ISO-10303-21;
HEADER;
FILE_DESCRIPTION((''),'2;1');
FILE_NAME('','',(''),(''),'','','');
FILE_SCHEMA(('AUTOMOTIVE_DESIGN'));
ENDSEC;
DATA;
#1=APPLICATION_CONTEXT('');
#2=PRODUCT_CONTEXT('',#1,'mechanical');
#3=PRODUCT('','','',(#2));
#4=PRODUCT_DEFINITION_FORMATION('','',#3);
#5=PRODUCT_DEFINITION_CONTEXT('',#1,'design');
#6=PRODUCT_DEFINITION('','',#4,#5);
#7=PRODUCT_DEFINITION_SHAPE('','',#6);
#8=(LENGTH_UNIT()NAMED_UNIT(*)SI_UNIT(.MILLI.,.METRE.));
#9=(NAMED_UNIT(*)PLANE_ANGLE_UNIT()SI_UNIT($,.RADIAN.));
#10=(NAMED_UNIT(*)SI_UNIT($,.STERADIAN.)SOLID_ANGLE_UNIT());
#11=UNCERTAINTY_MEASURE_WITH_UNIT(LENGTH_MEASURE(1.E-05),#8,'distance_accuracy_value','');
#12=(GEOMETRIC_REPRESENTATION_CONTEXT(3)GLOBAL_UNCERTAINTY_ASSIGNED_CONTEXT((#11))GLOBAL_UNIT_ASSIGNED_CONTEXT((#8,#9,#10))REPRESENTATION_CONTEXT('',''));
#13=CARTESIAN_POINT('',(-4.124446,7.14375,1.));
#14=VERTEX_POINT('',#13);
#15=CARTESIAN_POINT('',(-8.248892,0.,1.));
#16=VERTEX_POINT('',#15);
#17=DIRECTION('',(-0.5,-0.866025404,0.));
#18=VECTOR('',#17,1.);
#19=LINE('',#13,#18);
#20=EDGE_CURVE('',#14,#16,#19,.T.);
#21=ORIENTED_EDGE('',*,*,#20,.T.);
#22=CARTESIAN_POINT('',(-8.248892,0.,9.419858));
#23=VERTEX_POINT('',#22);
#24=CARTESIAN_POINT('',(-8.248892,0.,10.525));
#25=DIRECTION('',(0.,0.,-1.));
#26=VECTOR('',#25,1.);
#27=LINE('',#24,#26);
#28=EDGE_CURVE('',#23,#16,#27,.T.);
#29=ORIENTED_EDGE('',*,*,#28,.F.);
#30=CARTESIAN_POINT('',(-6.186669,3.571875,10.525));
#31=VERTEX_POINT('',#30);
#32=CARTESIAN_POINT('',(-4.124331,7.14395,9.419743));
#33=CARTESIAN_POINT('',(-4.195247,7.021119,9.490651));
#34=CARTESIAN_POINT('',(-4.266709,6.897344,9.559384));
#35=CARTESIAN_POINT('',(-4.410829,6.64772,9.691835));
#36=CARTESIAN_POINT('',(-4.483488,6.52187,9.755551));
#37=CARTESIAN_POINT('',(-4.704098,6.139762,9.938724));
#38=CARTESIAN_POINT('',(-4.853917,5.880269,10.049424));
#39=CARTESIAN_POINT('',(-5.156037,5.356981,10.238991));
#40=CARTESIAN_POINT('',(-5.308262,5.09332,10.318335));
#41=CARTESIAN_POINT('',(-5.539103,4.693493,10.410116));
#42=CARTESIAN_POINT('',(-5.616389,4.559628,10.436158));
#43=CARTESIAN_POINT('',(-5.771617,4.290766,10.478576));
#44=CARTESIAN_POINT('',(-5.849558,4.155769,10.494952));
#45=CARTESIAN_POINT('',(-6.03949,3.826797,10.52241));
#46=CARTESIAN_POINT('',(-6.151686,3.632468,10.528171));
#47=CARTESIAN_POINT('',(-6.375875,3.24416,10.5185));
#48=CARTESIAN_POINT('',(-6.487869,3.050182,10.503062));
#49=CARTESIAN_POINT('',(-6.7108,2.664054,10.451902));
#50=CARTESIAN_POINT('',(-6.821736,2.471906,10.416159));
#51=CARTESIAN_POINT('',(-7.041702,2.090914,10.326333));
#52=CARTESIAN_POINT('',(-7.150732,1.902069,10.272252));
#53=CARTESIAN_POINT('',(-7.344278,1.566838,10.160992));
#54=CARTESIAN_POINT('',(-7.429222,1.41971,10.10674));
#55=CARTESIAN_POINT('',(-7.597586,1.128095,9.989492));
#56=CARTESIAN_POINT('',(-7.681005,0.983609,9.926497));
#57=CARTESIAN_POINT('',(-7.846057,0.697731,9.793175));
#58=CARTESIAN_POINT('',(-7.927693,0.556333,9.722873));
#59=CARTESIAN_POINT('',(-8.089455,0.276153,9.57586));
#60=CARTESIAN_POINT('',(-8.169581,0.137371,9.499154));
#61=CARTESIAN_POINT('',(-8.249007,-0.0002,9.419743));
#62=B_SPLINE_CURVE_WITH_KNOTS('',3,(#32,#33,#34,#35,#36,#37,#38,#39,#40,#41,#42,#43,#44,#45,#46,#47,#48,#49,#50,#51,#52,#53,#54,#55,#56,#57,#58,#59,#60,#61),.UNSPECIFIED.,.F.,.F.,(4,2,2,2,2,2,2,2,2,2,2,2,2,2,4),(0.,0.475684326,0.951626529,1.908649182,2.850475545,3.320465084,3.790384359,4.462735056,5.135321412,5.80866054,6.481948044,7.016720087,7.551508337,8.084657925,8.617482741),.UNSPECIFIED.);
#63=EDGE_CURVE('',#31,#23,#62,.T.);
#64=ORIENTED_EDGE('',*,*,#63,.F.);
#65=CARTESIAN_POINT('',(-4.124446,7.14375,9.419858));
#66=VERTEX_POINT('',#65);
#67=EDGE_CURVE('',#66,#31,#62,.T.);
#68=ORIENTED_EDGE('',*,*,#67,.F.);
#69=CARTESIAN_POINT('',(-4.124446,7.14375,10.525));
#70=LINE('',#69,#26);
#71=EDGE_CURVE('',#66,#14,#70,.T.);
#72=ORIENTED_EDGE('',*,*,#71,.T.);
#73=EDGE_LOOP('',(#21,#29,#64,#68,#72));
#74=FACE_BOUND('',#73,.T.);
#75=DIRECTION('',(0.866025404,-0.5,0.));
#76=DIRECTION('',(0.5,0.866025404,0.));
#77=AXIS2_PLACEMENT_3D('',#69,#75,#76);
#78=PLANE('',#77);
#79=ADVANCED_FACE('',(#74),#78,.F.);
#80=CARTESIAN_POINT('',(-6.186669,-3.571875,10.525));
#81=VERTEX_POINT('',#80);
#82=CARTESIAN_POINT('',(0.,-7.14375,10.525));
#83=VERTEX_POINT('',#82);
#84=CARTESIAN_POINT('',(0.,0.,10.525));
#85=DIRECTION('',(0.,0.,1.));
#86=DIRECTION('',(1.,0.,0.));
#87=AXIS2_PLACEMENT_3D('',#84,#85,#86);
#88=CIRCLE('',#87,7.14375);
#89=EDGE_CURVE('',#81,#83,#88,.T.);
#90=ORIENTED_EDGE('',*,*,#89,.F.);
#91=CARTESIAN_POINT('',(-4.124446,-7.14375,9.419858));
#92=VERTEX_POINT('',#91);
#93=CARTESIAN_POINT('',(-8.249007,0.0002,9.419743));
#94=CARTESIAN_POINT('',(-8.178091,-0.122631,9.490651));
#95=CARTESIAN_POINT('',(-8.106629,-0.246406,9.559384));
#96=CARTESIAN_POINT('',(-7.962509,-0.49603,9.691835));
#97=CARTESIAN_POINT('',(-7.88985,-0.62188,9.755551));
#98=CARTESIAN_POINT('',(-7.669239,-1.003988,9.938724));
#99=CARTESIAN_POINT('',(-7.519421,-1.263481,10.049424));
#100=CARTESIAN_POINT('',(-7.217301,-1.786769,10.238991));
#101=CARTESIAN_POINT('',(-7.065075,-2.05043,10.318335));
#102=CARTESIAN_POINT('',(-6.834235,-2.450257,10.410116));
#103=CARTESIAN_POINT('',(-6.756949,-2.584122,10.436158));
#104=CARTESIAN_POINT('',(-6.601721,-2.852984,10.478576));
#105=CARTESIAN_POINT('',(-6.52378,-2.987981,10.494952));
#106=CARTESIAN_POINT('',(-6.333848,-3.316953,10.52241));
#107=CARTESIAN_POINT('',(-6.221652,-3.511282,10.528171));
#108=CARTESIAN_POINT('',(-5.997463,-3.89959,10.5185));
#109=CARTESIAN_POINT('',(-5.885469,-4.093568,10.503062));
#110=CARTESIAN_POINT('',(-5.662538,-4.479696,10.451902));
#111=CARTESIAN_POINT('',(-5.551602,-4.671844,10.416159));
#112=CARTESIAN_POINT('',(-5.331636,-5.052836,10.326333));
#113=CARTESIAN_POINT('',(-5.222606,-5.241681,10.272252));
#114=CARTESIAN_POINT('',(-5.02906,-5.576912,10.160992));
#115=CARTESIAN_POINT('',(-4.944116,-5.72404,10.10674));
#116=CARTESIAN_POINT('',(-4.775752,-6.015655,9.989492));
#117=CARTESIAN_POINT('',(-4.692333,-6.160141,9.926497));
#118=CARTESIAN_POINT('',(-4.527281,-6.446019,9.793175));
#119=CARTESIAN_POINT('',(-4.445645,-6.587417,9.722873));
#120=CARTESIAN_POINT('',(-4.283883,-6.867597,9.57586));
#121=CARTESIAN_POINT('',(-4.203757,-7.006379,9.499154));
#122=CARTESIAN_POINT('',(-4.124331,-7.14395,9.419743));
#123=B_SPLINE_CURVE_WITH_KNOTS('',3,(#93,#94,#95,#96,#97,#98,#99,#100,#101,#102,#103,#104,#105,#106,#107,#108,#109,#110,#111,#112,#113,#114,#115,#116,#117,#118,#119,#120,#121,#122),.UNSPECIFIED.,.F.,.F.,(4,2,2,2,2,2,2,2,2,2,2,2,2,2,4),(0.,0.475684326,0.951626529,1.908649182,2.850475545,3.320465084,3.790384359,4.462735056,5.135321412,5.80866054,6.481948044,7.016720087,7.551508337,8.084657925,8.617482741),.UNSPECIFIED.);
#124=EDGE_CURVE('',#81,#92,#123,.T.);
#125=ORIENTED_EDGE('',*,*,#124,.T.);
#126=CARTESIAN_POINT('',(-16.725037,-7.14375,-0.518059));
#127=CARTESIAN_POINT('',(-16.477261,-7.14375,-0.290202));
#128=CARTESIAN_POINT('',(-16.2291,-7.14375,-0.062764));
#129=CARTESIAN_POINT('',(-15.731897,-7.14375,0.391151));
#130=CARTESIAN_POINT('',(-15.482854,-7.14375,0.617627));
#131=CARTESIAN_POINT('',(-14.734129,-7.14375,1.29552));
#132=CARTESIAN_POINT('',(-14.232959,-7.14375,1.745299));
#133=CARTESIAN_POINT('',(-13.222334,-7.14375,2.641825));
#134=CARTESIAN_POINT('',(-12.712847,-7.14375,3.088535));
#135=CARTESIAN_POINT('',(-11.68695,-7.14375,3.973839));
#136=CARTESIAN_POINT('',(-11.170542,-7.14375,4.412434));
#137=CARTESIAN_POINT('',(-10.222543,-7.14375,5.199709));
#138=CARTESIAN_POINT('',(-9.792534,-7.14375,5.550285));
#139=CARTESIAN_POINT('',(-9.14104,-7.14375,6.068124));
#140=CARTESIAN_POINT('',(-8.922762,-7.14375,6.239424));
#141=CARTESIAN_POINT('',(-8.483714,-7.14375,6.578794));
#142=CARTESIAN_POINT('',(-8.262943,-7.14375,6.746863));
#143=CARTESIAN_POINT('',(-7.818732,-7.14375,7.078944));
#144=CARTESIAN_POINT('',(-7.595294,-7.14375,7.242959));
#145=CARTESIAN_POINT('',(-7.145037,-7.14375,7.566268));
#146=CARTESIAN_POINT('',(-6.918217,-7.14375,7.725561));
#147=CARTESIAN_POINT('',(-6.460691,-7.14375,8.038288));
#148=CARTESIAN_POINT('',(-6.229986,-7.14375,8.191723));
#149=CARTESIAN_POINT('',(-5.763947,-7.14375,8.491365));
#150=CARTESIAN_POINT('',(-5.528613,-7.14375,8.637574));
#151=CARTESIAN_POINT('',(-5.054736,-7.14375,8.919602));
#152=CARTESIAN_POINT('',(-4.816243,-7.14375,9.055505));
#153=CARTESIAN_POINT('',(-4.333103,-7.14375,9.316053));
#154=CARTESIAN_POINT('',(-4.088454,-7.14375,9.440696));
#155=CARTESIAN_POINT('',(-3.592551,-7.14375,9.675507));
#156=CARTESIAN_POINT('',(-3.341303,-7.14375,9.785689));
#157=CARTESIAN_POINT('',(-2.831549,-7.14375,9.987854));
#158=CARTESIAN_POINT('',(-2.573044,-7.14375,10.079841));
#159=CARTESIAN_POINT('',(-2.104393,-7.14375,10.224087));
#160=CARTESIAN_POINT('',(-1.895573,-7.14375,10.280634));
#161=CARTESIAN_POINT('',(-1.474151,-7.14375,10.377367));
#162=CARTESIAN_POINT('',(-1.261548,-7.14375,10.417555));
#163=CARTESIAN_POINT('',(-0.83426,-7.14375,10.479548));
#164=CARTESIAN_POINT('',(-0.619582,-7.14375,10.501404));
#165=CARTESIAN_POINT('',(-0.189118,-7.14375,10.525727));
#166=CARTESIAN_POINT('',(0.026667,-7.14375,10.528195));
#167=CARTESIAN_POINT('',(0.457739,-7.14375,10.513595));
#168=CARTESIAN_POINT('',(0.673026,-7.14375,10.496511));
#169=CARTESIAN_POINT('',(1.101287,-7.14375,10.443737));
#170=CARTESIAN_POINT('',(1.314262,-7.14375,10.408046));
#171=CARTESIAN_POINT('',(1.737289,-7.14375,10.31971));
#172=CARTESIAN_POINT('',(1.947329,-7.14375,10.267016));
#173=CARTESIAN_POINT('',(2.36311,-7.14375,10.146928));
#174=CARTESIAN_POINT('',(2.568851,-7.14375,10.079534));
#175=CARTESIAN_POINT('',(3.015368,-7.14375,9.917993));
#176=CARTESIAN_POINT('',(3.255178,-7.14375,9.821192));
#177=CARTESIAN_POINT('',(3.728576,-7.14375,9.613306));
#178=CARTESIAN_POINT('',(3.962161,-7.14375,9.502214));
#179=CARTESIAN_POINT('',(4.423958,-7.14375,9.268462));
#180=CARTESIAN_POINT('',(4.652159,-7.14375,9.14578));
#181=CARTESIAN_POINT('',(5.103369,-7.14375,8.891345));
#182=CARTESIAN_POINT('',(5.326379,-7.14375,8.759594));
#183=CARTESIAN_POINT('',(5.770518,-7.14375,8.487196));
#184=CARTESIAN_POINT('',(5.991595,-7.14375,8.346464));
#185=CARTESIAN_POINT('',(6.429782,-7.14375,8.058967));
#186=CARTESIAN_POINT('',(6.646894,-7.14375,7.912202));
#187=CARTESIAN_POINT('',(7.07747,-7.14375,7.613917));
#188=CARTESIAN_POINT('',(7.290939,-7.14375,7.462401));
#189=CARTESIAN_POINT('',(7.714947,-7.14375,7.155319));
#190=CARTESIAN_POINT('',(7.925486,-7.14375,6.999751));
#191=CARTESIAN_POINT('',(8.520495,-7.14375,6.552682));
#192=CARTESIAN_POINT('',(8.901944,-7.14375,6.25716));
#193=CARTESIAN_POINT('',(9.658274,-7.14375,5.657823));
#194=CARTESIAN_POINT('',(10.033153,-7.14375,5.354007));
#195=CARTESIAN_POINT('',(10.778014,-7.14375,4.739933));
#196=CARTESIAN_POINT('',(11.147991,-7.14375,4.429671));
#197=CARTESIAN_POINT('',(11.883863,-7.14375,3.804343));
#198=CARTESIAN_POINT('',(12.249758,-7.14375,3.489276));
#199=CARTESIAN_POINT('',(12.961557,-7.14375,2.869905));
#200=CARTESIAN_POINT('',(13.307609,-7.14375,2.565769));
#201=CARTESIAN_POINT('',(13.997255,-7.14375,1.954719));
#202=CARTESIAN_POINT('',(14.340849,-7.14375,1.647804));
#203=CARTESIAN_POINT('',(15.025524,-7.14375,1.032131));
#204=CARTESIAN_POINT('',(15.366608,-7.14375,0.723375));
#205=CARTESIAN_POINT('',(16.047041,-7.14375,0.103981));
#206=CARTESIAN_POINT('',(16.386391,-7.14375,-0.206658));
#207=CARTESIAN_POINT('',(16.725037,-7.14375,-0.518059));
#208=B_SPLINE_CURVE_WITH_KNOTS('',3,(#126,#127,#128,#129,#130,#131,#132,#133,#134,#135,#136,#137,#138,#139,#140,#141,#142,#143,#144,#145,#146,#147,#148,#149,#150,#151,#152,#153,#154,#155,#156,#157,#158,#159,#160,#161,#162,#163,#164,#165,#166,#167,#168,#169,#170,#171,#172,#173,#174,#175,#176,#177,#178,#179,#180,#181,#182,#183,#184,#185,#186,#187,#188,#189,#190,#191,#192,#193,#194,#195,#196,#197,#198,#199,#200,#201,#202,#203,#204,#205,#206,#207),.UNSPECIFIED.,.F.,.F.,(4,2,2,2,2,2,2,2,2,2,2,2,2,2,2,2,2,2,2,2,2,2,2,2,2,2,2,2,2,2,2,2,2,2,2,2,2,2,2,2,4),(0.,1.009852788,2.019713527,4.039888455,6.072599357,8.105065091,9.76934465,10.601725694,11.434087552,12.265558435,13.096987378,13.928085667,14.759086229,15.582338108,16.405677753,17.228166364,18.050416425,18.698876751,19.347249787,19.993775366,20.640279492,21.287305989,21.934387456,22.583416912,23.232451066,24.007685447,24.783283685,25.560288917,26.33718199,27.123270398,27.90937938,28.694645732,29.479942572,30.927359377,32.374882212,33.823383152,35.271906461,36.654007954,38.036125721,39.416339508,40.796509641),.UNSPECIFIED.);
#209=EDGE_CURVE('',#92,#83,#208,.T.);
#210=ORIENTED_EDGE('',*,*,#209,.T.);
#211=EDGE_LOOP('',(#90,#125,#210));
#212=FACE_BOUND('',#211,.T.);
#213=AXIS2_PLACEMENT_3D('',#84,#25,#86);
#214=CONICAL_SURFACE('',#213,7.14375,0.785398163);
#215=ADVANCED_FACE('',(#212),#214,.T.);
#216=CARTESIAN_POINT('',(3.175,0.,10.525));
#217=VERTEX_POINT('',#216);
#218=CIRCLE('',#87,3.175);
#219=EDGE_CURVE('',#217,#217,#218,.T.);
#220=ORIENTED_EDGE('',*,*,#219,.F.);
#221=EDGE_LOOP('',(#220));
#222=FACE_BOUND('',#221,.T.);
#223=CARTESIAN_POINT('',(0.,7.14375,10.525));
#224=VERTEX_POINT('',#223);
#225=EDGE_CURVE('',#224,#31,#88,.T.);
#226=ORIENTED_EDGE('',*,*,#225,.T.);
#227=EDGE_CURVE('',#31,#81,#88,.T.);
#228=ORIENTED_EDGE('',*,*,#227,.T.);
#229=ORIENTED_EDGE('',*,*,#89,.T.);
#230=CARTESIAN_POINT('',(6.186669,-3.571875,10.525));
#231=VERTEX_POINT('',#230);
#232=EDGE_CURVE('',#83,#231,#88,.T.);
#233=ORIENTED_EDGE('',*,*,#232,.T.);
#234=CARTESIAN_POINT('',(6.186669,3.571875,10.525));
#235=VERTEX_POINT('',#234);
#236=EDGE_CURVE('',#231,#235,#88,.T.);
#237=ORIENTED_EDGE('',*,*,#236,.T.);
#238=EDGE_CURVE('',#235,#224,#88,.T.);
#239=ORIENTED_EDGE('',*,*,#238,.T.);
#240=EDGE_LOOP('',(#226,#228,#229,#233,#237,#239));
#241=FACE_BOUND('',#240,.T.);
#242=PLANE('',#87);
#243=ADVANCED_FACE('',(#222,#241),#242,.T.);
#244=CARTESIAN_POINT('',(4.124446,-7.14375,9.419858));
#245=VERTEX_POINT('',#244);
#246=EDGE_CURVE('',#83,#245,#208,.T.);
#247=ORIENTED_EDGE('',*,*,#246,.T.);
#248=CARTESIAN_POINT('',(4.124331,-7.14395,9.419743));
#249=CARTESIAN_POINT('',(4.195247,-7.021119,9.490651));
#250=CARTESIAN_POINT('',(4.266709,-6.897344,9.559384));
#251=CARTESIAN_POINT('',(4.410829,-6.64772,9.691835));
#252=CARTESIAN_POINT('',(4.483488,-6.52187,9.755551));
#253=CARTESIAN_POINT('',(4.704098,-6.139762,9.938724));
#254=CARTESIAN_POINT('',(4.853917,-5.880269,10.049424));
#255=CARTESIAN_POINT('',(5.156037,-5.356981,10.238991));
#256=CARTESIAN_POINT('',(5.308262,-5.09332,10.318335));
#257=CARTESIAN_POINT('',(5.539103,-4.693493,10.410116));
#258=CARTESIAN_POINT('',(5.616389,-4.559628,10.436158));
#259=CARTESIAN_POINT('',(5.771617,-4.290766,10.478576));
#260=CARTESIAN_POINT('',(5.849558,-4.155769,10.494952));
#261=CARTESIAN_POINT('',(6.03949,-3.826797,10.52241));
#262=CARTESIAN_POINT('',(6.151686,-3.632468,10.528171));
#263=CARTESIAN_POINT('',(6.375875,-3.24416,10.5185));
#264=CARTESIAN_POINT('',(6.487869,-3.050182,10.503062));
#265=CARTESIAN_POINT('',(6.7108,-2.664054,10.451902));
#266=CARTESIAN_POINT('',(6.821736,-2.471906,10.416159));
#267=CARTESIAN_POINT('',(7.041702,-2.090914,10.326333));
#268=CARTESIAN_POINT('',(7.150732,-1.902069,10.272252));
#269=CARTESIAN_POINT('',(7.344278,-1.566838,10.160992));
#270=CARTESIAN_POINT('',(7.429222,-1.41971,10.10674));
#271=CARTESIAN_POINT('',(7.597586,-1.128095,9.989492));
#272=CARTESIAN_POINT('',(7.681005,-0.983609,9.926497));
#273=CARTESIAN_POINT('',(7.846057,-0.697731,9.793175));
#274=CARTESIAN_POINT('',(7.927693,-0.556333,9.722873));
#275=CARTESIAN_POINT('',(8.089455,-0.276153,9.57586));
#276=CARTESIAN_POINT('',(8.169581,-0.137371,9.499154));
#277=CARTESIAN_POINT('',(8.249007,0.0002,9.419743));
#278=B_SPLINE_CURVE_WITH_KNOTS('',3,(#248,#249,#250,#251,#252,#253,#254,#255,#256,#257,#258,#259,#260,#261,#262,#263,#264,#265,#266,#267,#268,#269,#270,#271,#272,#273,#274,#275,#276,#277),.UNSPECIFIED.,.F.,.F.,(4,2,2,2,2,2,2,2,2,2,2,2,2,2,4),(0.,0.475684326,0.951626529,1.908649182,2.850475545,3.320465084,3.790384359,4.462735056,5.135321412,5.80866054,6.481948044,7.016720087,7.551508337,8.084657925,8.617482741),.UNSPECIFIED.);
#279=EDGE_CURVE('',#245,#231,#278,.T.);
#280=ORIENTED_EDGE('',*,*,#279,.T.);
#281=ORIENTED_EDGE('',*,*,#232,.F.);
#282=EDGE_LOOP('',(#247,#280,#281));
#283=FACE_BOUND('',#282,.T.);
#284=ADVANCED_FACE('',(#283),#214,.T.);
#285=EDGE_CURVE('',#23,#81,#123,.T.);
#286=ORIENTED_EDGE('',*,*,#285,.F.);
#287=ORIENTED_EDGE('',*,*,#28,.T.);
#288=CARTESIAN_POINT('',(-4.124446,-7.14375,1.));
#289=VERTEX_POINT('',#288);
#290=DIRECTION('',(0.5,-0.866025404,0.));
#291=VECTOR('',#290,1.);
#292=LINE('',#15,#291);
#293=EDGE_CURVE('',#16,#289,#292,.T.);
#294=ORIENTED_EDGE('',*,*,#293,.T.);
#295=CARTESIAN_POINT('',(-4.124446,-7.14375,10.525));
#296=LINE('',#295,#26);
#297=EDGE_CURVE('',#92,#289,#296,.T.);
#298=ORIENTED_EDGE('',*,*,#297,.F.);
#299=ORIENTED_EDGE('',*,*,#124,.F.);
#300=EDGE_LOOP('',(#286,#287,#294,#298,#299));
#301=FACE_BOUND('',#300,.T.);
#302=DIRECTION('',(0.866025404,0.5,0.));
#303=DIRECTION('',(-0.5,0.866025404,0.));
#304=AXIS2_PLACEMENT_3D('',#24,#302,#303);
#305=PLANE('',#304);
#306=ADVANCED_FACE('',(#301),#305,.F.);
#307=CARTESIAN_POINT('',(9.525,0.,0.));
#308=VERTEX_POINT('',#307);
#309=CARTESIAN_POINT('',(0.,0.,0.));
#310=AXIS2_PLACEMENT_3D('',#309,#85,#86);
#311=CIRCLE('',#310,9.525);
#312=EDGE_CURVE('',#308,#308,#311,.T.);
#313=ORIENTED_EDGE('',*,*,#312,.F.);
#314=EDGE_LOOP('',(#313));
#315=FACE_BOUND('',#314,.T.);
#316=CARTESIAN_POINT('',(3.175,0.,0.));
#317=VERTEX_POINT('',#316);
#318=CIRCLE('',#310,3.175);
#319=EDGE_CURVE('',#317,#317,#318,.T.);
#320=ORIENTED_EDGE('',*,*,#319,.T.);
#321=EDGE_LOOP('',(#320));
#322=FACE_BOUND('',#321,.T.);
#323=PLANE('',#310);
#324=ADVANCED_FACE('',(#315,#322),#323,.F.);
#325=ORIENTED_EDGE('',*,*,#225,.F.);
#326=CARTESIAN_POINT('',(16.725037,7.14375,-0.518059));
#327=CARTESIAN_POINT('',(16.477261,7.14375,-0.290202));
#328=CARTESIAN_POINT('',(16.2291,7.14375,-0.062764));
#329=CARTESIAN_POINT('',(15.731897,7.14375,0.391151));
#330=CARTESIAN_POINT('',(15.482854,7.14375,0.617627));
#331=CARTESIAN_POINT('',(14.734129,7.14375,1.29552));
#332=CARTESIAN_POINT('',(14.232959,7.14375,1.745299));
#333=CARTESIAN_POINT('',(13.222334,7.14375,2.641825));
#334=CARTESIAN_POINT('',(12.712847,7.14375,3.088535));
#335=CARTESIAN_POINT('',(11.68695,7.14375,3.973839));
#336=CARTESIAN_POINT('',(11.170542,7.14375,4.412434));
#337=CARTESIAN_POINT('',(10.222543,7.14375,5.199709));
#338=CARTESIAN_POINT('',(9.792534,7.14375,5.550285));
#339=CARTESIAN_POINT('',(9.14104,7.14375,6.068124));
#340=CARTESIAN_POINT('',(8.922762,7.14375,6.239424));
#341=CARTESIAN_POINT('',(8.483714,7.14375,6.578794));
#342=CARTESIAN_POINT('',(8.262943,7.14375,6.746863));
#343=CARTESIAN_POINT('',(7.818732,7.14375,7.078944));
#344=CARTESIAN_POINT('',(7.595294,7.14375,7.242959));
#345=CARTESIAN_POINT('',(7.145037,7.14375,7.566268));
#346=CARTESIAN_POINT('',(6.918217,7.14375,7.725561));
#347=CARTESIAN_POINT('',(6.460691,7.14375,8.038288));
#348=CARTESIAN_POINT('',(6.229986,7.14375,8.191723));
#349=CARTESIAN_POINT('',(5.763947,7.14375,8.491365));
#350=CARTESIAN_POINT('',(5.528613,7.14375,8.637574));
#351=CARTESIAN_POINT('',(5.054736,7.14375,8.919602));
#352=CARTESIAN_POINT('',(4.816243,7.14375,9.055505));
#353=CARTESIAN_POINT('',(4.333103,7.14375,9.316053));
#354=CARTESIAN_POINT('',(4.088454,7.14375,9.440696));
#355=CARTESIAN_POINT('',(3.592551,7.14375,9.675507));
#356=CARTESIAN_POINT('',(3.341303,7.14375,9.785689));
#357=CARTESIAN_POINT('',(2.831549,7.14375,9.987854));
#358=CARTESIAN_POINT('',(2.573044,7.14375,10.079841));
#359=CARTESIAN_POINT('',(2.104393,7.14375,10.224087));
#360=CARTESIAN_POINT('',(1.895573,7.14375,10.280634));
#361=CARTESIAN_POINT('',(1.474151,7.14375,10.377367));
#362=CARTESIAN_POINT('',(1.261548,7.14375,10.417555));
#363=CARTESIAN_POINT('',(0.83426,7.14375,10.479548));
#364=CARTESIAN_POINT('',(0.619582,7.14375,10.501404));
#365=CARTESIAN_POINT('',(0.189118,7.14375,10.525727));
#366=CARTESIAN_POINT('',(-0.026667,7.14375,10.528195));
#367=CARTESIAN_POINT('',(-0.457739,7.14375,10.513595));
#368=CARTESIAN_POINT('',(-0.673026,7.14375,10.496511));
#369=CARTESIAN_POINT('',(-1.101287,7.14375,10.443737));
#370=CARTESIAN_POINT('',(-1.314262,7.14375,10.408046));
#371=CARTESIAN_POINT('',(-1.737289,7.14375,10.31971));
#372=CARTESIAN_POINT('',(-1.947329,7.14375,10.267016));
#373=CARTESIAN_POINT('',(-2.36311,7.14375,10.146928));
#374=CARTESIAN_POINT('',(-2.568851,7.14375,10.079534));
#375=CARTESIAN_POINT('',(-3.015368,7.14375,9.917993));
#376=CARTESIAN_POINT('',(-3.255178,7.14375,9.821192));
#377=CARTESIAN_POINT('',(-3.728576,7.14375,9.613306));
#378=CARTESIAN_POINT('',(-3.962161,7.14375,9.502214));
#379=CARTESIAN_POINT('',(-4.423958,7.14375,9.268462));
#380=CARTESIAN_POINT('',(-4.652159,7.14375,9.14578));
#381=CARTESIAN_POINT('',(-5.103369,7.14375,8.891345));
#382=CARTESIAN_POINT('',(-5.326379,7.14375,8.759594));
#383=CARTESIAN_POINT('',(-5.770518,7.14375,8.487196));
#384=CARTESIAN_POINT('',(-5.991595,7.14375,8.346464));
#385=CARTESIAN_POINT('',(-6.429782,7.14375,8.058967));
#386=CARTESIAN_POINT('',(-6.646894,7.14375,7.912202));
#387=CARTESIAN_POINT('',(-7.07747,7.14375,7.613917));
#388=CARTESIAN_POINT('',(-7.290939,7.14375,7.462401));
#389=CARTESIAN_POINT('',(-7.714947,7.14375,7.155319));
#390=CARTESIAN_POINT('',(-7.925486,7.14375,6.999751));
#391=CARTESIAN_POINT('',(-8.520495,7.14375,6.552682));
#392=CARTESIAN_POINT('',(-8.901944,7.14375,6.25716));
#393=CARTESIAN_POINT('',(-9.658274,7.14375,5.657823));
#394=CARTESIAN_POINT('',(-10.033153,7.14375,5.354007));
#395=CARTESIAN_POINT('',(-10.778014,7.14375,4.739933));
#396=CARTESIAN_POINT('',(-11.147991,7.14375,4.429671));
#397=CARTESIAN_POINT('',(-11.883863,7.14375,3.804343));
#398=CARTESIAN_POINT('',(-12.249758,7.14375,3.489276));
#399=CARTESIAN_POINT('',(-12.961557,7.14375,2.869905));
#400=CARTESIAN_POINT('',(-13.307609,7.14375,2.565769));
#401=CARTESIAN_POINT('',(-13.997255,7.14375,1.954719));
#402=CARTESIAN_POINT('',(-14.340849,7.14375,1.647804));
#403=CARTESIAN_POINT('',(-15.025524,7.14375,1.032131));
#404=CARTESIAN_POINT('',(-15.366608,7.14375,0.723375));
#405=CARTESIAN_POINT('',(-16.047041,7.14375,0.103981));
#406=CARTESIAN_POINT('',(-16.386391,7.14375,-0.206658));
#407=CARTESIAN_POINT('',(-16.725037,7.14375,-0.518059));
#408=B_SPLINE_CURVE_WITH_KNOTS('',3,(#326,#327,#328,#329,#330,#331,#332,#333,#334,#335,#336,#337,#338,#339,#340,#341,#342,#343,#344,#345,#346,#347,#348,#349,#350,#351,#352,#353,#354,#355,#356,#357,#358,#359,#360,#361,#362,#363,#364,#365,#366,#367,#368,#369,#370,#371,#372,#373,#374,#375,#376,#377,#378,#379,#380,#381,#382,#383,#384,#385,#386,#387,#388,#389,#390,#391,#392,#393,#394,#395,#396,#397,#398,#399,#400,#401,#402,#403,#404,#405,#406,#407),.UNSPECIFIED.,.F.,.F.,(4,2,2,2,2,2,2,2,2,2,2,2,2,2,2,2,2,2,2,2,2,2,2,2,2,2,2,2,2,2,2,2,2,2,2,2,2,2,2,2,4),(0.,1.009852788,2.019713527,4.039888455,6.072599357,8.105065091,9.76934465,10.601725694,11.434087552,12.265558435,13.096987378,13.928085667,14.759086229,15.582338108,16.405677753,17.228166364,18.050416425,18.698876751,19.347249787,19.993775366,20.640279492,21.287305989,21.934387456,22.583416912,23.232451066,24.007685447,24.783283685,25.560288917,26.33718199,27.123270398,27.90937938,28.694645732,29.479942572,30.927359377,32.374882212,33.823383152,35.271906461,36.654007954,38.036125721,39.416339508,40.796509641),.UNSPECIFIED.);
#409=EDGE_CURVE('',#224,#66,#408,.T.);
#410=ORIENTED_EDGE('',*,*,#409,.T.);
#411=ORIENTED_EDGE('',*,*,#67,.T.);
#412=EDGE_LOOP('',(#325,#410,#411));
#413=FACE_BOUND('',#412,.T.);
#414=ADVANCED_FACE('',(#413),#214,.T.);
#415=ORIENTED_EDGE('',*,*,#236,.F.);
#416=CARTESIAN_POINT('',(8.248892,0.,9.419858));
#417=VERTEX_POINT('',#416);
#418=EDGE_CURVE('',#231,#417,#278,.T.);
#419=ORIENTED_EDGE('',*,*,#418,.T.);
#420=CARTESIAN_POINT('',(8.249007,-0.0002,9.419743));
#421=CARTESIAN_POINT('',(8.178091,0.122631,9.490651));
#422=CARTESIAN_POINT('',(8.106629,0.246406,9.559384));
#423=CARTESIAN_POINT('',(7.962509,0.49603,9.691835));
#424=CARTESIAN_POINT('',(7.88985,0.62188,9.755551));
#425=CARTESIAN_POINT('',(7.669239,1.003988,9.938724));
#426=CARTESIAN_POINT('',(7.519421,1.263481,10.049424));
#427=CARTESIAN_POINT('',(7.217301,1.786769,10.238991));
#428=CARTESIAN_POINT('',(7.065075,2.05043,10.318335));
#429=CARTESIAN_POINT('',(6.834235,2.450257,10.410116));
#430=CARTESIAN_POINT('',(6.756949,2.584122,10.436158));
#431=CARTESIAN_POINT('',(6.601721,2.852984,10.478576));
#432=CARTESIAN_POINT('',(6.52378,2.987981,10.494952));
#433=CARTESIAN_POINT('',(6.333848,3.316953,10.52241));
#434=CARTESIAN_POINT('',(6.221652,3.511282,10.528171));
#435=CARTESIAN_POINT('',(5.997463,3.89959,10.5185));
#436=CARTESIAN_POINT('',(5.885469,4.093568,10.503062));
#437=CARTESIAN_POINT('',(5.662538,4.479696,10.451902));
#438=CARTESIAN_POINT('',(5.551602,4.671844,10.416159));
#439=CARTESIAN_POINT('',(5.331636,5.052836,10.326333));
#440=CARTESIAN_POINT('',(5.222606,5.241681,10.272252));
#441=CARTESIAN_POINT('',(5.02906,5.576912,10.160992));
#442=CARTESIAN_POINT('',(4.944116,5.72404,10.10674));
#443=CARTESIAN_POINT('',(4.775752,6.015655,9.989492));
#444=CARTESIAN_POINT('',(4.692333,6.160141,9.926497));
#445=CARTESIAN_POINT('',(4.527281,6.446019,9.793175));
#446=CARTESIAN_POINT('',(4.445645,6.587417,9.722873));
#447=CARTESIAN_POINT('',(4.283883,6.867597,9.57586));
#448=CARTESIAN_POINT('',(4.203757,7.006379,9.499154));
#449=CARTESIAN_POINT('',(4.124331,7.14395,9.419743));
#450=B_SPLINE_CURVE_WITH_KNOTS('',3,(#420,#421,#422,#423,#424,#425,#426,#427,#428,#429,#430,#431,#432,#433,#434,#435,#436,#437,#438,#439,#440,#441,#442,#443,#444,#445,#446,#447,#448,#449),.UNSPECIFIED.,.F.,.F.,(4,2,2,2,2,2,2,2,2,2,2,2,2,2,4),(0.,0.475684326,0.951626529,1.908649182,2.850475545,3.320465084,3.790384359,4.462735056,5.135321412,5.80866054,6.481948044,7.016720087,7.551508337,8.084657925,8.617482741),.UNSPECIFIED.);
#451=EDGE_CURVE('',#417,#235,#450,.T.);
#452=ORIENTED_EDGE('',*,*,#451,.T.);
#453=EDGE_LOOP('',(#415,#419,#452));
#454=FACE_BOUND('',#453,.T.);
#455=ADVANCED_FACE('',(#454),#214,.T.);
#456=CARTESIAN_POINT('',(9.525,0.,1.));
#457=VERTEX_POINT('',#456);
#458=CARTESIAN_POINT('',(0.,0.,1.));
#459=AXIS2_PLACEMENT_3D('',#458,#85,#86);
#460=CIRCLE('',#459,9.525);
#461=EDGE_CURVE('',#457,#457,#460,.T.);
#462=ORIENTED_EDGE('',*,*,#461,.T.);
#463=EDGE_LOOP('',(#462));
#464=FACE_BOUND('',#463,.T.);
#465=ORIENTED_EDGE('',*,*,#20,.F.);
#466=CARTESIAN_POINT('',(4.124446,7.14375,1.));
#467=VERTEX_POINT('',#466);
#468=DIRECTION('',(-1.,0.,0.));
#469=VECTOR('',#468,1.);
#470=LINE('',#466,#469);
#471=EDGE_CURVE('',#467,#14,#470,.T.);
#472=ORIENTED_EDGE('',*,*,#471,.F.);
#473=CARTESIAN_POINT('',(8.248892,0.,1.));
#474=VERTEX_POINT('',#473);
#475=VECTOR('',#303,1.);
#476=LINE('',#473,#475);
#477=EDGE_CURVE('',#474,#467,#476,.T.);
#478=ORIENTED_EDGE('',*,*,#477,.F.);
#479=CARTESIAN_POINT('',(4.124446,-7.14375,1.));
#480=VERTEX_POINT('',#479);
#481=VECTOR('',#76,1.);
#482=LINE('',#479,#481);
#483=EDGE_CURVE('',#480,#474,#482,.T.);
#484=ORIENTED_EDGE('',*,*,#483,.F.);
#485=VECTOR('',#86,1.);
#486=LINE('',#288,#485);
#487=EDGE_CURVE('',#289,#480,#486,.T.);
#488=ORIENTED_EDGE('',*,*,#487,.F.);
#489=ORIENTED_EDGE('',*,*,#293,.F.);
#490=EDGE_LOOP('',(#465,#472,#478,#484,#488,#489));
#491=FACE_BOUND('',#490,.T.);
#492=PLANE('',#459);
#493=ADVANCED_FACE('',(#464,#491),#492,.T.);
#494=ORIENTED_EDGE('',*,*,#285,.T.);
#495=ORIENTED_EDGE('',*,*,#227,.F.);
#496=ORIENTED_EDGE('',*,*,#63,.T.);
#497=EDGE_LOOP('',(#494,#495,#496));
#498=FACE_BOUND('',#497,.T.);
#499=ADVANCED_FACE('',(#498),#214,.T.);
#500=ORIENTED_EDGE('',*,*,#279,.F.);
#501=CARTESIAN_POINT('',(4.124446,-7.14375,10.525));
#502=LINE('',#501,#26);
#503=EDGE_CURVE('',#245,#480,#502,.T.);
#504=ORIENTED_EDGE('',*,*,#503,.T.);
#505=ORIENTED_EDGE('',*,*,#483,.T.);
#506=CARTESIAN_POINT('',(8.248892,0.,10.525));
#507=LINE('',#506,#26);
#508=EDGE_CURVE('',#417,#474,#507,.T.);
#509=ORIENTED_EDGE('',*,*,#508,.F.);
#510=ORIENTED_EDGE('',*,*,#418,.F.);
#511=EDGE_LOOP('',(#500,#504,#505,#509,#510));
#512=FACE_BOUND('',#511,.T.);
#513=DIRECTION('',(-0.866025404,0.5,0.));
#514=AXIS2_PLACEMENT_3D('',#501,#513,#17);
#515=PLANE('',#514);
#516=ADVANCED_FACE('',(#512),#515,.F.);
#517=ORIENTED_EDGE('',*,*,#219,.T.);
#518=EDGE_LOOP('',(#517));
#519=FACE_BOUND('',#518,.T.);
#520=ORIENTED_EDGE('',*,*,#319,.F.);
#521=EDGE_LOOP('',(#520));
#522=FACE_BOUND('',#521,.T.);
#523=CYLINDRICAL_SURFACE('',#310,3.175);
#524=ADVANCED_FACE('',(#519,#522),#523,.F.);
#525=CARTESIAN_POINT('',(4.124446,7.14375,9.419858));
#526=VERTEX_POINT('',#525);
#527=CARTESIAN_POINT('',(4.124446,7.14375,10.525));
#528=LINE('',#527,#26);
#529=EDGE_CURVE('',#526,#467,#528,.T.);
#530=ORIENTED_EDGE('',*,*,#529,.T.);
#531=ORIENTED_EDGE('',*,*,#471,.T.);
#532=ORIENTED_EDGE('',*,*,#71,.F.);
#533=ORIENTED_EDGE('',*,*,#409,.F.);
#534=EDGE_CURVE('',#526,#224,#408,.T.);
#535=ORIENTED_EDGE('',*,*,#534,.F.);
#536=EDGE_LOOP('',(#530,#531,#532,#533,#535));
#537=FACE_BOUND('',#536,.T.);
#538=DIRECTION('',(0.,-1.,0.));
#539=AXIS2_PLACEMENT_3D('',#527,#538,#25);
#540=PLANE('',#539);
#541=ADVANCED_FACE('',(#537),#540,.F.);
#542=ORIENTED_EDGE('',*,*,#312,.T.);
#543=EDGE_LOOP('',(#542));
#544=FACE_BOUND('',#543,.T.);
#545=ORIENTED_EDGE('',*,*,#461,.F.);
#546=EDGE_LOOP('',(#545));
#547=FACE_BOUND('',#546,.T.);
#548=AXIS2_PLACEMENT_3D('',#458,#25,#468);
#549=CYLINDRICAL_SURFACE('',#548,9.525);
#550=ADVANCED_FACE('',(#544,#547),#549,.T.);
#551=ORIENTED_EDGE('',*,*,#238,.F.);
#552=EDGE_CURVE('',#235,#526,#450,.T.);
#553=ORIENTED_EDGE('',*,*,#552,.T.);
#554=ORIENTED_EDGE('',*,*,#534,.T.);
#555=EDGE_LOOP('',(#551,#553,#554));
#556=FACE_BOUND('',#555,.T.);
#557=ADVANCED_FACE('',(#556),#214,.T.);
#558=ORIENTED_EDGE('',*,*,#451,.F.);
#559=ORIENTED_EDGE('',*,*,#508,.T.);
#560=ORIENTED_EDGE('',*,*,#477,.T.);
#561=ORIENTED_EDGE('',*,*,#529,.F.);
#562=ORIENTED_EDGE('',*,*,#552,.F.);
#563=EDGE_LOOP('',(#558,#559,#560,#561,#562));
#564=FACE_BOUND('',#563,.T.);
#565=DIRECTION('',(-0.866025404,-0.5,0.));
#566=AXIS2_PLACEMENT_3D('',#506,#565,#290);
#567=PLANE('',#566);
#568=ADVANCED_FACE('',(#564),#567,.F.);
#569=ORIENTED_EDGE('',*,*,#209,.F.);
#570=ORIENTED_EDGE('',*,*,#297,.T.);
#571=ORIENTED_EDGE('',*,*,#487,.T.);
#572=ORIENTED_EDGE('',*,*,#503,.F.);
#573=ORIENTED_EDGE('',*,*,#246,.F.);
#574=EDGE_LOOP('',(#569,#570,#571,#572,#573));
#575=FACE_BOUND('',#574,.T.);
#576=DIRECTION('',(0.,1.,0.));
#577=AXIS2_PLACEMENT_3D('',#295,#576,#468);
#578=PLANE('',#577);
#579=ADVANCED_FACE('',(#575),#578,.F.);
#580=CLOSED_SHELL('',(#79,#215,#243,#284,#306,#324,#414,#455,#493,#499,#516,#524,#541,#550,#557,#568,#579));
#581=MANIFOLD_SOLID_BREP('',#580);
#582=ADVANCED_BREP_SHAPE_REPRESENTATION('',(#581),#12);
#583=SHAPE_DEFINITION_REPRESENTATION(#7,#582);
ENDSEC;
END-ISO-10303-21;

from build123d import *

# Parameters (mm, degrees)
SKETCH1_R           = 9.525
BOSS_EXTRUDE1_DEPTH = 1
BOSS_EXTRUDE2_DEPTH = 9.525
SKETCH3_R           = 3.175
CUT_EXTRUDE1_DEPTH  = 18.094644629
SKETCH4_OUTSIDE_W   = 45.884
SKETCH4_OUTSIDE_H   = 45.884
SKETCH4_OUTSIDE_R   = 7.14375
CUT_EXTRUDE2_DEPTH  = 9.525
CUT_EXTRUDE2_DRAFT  = -45


with BuildPart() as part:
    # Sketch1 → Boss-Extrude1 (new body)
    with BuildSketch(Plane.XY):
        Circle(SKETCH1_R)
    extrude(amount=BOSS_EXTRUDE1_DEPTH)

    # Sketch2 → Boss-Extrude2 (add)
    with BuildSketch(Plane.XY.offset(1)):
        Polygon((4.124445986, -7.14375), (8.248891971, 0), (4.124445986, 7.14375), (-4.124445986, 7.14375), (-8.248891971, 0), (-4.124445986, -7.14375), align=None)
    extrude(amount=BOSS_EXTRUDE2_DEPTH)

    # Sketch3 → Cut-Extrude1 (cut, through all)
    with BuildSketch(Plane.XY.offset(10.525)):
        Circle(SKETCH3_R)
    extrude(amount=-CUT_EXTRUDE1_DEPTH, mode=Mode.SUBTRACT)


with BuildPart() as cut_extrude2_tool:
    # Sketch4 outside → Cut-Extrude2 (with draft: the straight prism first)
    with BuildSketch(Plane.XY.offset(10.525)):
        Rectangle(SKETCH4_OUTSIDE_W, SKETCH4_OUTSIDE_H)
        Circle(SKETCH4_OUTSIDE_R, mode=Mode.SUBTRACT)
    extrude(amount=-CUT_EXTRUDE2_DEPTH)
    # Cut-Extrude2: the draft: its side faces are tilted about the plane it starts from
    cut_extrude2_sides = [cut_extrude2_tool.faces().sort_by_distance(p)[0] for p in [
        (0, -22.942, 5.7625),
        (22.942, 0, 5.7625),
        (0, 22.942, 5.7625),
        (-22.942, 0, 5.7625),
        (-7.14375, 0, 5.7625),
    ]]
    draft(cut_extrude2_sides, Plane.XY.offset(10.525), CUT_EXTRUDE2_DRAFT)


with BuildPart() as part_1:
    add(part.part)

    # Cut-Extrude2: cut by cut_extrude2_tool
    add(cut_extrude2_tool.part, mode=Mode.SUBTRACT)


solid = part_1.part
